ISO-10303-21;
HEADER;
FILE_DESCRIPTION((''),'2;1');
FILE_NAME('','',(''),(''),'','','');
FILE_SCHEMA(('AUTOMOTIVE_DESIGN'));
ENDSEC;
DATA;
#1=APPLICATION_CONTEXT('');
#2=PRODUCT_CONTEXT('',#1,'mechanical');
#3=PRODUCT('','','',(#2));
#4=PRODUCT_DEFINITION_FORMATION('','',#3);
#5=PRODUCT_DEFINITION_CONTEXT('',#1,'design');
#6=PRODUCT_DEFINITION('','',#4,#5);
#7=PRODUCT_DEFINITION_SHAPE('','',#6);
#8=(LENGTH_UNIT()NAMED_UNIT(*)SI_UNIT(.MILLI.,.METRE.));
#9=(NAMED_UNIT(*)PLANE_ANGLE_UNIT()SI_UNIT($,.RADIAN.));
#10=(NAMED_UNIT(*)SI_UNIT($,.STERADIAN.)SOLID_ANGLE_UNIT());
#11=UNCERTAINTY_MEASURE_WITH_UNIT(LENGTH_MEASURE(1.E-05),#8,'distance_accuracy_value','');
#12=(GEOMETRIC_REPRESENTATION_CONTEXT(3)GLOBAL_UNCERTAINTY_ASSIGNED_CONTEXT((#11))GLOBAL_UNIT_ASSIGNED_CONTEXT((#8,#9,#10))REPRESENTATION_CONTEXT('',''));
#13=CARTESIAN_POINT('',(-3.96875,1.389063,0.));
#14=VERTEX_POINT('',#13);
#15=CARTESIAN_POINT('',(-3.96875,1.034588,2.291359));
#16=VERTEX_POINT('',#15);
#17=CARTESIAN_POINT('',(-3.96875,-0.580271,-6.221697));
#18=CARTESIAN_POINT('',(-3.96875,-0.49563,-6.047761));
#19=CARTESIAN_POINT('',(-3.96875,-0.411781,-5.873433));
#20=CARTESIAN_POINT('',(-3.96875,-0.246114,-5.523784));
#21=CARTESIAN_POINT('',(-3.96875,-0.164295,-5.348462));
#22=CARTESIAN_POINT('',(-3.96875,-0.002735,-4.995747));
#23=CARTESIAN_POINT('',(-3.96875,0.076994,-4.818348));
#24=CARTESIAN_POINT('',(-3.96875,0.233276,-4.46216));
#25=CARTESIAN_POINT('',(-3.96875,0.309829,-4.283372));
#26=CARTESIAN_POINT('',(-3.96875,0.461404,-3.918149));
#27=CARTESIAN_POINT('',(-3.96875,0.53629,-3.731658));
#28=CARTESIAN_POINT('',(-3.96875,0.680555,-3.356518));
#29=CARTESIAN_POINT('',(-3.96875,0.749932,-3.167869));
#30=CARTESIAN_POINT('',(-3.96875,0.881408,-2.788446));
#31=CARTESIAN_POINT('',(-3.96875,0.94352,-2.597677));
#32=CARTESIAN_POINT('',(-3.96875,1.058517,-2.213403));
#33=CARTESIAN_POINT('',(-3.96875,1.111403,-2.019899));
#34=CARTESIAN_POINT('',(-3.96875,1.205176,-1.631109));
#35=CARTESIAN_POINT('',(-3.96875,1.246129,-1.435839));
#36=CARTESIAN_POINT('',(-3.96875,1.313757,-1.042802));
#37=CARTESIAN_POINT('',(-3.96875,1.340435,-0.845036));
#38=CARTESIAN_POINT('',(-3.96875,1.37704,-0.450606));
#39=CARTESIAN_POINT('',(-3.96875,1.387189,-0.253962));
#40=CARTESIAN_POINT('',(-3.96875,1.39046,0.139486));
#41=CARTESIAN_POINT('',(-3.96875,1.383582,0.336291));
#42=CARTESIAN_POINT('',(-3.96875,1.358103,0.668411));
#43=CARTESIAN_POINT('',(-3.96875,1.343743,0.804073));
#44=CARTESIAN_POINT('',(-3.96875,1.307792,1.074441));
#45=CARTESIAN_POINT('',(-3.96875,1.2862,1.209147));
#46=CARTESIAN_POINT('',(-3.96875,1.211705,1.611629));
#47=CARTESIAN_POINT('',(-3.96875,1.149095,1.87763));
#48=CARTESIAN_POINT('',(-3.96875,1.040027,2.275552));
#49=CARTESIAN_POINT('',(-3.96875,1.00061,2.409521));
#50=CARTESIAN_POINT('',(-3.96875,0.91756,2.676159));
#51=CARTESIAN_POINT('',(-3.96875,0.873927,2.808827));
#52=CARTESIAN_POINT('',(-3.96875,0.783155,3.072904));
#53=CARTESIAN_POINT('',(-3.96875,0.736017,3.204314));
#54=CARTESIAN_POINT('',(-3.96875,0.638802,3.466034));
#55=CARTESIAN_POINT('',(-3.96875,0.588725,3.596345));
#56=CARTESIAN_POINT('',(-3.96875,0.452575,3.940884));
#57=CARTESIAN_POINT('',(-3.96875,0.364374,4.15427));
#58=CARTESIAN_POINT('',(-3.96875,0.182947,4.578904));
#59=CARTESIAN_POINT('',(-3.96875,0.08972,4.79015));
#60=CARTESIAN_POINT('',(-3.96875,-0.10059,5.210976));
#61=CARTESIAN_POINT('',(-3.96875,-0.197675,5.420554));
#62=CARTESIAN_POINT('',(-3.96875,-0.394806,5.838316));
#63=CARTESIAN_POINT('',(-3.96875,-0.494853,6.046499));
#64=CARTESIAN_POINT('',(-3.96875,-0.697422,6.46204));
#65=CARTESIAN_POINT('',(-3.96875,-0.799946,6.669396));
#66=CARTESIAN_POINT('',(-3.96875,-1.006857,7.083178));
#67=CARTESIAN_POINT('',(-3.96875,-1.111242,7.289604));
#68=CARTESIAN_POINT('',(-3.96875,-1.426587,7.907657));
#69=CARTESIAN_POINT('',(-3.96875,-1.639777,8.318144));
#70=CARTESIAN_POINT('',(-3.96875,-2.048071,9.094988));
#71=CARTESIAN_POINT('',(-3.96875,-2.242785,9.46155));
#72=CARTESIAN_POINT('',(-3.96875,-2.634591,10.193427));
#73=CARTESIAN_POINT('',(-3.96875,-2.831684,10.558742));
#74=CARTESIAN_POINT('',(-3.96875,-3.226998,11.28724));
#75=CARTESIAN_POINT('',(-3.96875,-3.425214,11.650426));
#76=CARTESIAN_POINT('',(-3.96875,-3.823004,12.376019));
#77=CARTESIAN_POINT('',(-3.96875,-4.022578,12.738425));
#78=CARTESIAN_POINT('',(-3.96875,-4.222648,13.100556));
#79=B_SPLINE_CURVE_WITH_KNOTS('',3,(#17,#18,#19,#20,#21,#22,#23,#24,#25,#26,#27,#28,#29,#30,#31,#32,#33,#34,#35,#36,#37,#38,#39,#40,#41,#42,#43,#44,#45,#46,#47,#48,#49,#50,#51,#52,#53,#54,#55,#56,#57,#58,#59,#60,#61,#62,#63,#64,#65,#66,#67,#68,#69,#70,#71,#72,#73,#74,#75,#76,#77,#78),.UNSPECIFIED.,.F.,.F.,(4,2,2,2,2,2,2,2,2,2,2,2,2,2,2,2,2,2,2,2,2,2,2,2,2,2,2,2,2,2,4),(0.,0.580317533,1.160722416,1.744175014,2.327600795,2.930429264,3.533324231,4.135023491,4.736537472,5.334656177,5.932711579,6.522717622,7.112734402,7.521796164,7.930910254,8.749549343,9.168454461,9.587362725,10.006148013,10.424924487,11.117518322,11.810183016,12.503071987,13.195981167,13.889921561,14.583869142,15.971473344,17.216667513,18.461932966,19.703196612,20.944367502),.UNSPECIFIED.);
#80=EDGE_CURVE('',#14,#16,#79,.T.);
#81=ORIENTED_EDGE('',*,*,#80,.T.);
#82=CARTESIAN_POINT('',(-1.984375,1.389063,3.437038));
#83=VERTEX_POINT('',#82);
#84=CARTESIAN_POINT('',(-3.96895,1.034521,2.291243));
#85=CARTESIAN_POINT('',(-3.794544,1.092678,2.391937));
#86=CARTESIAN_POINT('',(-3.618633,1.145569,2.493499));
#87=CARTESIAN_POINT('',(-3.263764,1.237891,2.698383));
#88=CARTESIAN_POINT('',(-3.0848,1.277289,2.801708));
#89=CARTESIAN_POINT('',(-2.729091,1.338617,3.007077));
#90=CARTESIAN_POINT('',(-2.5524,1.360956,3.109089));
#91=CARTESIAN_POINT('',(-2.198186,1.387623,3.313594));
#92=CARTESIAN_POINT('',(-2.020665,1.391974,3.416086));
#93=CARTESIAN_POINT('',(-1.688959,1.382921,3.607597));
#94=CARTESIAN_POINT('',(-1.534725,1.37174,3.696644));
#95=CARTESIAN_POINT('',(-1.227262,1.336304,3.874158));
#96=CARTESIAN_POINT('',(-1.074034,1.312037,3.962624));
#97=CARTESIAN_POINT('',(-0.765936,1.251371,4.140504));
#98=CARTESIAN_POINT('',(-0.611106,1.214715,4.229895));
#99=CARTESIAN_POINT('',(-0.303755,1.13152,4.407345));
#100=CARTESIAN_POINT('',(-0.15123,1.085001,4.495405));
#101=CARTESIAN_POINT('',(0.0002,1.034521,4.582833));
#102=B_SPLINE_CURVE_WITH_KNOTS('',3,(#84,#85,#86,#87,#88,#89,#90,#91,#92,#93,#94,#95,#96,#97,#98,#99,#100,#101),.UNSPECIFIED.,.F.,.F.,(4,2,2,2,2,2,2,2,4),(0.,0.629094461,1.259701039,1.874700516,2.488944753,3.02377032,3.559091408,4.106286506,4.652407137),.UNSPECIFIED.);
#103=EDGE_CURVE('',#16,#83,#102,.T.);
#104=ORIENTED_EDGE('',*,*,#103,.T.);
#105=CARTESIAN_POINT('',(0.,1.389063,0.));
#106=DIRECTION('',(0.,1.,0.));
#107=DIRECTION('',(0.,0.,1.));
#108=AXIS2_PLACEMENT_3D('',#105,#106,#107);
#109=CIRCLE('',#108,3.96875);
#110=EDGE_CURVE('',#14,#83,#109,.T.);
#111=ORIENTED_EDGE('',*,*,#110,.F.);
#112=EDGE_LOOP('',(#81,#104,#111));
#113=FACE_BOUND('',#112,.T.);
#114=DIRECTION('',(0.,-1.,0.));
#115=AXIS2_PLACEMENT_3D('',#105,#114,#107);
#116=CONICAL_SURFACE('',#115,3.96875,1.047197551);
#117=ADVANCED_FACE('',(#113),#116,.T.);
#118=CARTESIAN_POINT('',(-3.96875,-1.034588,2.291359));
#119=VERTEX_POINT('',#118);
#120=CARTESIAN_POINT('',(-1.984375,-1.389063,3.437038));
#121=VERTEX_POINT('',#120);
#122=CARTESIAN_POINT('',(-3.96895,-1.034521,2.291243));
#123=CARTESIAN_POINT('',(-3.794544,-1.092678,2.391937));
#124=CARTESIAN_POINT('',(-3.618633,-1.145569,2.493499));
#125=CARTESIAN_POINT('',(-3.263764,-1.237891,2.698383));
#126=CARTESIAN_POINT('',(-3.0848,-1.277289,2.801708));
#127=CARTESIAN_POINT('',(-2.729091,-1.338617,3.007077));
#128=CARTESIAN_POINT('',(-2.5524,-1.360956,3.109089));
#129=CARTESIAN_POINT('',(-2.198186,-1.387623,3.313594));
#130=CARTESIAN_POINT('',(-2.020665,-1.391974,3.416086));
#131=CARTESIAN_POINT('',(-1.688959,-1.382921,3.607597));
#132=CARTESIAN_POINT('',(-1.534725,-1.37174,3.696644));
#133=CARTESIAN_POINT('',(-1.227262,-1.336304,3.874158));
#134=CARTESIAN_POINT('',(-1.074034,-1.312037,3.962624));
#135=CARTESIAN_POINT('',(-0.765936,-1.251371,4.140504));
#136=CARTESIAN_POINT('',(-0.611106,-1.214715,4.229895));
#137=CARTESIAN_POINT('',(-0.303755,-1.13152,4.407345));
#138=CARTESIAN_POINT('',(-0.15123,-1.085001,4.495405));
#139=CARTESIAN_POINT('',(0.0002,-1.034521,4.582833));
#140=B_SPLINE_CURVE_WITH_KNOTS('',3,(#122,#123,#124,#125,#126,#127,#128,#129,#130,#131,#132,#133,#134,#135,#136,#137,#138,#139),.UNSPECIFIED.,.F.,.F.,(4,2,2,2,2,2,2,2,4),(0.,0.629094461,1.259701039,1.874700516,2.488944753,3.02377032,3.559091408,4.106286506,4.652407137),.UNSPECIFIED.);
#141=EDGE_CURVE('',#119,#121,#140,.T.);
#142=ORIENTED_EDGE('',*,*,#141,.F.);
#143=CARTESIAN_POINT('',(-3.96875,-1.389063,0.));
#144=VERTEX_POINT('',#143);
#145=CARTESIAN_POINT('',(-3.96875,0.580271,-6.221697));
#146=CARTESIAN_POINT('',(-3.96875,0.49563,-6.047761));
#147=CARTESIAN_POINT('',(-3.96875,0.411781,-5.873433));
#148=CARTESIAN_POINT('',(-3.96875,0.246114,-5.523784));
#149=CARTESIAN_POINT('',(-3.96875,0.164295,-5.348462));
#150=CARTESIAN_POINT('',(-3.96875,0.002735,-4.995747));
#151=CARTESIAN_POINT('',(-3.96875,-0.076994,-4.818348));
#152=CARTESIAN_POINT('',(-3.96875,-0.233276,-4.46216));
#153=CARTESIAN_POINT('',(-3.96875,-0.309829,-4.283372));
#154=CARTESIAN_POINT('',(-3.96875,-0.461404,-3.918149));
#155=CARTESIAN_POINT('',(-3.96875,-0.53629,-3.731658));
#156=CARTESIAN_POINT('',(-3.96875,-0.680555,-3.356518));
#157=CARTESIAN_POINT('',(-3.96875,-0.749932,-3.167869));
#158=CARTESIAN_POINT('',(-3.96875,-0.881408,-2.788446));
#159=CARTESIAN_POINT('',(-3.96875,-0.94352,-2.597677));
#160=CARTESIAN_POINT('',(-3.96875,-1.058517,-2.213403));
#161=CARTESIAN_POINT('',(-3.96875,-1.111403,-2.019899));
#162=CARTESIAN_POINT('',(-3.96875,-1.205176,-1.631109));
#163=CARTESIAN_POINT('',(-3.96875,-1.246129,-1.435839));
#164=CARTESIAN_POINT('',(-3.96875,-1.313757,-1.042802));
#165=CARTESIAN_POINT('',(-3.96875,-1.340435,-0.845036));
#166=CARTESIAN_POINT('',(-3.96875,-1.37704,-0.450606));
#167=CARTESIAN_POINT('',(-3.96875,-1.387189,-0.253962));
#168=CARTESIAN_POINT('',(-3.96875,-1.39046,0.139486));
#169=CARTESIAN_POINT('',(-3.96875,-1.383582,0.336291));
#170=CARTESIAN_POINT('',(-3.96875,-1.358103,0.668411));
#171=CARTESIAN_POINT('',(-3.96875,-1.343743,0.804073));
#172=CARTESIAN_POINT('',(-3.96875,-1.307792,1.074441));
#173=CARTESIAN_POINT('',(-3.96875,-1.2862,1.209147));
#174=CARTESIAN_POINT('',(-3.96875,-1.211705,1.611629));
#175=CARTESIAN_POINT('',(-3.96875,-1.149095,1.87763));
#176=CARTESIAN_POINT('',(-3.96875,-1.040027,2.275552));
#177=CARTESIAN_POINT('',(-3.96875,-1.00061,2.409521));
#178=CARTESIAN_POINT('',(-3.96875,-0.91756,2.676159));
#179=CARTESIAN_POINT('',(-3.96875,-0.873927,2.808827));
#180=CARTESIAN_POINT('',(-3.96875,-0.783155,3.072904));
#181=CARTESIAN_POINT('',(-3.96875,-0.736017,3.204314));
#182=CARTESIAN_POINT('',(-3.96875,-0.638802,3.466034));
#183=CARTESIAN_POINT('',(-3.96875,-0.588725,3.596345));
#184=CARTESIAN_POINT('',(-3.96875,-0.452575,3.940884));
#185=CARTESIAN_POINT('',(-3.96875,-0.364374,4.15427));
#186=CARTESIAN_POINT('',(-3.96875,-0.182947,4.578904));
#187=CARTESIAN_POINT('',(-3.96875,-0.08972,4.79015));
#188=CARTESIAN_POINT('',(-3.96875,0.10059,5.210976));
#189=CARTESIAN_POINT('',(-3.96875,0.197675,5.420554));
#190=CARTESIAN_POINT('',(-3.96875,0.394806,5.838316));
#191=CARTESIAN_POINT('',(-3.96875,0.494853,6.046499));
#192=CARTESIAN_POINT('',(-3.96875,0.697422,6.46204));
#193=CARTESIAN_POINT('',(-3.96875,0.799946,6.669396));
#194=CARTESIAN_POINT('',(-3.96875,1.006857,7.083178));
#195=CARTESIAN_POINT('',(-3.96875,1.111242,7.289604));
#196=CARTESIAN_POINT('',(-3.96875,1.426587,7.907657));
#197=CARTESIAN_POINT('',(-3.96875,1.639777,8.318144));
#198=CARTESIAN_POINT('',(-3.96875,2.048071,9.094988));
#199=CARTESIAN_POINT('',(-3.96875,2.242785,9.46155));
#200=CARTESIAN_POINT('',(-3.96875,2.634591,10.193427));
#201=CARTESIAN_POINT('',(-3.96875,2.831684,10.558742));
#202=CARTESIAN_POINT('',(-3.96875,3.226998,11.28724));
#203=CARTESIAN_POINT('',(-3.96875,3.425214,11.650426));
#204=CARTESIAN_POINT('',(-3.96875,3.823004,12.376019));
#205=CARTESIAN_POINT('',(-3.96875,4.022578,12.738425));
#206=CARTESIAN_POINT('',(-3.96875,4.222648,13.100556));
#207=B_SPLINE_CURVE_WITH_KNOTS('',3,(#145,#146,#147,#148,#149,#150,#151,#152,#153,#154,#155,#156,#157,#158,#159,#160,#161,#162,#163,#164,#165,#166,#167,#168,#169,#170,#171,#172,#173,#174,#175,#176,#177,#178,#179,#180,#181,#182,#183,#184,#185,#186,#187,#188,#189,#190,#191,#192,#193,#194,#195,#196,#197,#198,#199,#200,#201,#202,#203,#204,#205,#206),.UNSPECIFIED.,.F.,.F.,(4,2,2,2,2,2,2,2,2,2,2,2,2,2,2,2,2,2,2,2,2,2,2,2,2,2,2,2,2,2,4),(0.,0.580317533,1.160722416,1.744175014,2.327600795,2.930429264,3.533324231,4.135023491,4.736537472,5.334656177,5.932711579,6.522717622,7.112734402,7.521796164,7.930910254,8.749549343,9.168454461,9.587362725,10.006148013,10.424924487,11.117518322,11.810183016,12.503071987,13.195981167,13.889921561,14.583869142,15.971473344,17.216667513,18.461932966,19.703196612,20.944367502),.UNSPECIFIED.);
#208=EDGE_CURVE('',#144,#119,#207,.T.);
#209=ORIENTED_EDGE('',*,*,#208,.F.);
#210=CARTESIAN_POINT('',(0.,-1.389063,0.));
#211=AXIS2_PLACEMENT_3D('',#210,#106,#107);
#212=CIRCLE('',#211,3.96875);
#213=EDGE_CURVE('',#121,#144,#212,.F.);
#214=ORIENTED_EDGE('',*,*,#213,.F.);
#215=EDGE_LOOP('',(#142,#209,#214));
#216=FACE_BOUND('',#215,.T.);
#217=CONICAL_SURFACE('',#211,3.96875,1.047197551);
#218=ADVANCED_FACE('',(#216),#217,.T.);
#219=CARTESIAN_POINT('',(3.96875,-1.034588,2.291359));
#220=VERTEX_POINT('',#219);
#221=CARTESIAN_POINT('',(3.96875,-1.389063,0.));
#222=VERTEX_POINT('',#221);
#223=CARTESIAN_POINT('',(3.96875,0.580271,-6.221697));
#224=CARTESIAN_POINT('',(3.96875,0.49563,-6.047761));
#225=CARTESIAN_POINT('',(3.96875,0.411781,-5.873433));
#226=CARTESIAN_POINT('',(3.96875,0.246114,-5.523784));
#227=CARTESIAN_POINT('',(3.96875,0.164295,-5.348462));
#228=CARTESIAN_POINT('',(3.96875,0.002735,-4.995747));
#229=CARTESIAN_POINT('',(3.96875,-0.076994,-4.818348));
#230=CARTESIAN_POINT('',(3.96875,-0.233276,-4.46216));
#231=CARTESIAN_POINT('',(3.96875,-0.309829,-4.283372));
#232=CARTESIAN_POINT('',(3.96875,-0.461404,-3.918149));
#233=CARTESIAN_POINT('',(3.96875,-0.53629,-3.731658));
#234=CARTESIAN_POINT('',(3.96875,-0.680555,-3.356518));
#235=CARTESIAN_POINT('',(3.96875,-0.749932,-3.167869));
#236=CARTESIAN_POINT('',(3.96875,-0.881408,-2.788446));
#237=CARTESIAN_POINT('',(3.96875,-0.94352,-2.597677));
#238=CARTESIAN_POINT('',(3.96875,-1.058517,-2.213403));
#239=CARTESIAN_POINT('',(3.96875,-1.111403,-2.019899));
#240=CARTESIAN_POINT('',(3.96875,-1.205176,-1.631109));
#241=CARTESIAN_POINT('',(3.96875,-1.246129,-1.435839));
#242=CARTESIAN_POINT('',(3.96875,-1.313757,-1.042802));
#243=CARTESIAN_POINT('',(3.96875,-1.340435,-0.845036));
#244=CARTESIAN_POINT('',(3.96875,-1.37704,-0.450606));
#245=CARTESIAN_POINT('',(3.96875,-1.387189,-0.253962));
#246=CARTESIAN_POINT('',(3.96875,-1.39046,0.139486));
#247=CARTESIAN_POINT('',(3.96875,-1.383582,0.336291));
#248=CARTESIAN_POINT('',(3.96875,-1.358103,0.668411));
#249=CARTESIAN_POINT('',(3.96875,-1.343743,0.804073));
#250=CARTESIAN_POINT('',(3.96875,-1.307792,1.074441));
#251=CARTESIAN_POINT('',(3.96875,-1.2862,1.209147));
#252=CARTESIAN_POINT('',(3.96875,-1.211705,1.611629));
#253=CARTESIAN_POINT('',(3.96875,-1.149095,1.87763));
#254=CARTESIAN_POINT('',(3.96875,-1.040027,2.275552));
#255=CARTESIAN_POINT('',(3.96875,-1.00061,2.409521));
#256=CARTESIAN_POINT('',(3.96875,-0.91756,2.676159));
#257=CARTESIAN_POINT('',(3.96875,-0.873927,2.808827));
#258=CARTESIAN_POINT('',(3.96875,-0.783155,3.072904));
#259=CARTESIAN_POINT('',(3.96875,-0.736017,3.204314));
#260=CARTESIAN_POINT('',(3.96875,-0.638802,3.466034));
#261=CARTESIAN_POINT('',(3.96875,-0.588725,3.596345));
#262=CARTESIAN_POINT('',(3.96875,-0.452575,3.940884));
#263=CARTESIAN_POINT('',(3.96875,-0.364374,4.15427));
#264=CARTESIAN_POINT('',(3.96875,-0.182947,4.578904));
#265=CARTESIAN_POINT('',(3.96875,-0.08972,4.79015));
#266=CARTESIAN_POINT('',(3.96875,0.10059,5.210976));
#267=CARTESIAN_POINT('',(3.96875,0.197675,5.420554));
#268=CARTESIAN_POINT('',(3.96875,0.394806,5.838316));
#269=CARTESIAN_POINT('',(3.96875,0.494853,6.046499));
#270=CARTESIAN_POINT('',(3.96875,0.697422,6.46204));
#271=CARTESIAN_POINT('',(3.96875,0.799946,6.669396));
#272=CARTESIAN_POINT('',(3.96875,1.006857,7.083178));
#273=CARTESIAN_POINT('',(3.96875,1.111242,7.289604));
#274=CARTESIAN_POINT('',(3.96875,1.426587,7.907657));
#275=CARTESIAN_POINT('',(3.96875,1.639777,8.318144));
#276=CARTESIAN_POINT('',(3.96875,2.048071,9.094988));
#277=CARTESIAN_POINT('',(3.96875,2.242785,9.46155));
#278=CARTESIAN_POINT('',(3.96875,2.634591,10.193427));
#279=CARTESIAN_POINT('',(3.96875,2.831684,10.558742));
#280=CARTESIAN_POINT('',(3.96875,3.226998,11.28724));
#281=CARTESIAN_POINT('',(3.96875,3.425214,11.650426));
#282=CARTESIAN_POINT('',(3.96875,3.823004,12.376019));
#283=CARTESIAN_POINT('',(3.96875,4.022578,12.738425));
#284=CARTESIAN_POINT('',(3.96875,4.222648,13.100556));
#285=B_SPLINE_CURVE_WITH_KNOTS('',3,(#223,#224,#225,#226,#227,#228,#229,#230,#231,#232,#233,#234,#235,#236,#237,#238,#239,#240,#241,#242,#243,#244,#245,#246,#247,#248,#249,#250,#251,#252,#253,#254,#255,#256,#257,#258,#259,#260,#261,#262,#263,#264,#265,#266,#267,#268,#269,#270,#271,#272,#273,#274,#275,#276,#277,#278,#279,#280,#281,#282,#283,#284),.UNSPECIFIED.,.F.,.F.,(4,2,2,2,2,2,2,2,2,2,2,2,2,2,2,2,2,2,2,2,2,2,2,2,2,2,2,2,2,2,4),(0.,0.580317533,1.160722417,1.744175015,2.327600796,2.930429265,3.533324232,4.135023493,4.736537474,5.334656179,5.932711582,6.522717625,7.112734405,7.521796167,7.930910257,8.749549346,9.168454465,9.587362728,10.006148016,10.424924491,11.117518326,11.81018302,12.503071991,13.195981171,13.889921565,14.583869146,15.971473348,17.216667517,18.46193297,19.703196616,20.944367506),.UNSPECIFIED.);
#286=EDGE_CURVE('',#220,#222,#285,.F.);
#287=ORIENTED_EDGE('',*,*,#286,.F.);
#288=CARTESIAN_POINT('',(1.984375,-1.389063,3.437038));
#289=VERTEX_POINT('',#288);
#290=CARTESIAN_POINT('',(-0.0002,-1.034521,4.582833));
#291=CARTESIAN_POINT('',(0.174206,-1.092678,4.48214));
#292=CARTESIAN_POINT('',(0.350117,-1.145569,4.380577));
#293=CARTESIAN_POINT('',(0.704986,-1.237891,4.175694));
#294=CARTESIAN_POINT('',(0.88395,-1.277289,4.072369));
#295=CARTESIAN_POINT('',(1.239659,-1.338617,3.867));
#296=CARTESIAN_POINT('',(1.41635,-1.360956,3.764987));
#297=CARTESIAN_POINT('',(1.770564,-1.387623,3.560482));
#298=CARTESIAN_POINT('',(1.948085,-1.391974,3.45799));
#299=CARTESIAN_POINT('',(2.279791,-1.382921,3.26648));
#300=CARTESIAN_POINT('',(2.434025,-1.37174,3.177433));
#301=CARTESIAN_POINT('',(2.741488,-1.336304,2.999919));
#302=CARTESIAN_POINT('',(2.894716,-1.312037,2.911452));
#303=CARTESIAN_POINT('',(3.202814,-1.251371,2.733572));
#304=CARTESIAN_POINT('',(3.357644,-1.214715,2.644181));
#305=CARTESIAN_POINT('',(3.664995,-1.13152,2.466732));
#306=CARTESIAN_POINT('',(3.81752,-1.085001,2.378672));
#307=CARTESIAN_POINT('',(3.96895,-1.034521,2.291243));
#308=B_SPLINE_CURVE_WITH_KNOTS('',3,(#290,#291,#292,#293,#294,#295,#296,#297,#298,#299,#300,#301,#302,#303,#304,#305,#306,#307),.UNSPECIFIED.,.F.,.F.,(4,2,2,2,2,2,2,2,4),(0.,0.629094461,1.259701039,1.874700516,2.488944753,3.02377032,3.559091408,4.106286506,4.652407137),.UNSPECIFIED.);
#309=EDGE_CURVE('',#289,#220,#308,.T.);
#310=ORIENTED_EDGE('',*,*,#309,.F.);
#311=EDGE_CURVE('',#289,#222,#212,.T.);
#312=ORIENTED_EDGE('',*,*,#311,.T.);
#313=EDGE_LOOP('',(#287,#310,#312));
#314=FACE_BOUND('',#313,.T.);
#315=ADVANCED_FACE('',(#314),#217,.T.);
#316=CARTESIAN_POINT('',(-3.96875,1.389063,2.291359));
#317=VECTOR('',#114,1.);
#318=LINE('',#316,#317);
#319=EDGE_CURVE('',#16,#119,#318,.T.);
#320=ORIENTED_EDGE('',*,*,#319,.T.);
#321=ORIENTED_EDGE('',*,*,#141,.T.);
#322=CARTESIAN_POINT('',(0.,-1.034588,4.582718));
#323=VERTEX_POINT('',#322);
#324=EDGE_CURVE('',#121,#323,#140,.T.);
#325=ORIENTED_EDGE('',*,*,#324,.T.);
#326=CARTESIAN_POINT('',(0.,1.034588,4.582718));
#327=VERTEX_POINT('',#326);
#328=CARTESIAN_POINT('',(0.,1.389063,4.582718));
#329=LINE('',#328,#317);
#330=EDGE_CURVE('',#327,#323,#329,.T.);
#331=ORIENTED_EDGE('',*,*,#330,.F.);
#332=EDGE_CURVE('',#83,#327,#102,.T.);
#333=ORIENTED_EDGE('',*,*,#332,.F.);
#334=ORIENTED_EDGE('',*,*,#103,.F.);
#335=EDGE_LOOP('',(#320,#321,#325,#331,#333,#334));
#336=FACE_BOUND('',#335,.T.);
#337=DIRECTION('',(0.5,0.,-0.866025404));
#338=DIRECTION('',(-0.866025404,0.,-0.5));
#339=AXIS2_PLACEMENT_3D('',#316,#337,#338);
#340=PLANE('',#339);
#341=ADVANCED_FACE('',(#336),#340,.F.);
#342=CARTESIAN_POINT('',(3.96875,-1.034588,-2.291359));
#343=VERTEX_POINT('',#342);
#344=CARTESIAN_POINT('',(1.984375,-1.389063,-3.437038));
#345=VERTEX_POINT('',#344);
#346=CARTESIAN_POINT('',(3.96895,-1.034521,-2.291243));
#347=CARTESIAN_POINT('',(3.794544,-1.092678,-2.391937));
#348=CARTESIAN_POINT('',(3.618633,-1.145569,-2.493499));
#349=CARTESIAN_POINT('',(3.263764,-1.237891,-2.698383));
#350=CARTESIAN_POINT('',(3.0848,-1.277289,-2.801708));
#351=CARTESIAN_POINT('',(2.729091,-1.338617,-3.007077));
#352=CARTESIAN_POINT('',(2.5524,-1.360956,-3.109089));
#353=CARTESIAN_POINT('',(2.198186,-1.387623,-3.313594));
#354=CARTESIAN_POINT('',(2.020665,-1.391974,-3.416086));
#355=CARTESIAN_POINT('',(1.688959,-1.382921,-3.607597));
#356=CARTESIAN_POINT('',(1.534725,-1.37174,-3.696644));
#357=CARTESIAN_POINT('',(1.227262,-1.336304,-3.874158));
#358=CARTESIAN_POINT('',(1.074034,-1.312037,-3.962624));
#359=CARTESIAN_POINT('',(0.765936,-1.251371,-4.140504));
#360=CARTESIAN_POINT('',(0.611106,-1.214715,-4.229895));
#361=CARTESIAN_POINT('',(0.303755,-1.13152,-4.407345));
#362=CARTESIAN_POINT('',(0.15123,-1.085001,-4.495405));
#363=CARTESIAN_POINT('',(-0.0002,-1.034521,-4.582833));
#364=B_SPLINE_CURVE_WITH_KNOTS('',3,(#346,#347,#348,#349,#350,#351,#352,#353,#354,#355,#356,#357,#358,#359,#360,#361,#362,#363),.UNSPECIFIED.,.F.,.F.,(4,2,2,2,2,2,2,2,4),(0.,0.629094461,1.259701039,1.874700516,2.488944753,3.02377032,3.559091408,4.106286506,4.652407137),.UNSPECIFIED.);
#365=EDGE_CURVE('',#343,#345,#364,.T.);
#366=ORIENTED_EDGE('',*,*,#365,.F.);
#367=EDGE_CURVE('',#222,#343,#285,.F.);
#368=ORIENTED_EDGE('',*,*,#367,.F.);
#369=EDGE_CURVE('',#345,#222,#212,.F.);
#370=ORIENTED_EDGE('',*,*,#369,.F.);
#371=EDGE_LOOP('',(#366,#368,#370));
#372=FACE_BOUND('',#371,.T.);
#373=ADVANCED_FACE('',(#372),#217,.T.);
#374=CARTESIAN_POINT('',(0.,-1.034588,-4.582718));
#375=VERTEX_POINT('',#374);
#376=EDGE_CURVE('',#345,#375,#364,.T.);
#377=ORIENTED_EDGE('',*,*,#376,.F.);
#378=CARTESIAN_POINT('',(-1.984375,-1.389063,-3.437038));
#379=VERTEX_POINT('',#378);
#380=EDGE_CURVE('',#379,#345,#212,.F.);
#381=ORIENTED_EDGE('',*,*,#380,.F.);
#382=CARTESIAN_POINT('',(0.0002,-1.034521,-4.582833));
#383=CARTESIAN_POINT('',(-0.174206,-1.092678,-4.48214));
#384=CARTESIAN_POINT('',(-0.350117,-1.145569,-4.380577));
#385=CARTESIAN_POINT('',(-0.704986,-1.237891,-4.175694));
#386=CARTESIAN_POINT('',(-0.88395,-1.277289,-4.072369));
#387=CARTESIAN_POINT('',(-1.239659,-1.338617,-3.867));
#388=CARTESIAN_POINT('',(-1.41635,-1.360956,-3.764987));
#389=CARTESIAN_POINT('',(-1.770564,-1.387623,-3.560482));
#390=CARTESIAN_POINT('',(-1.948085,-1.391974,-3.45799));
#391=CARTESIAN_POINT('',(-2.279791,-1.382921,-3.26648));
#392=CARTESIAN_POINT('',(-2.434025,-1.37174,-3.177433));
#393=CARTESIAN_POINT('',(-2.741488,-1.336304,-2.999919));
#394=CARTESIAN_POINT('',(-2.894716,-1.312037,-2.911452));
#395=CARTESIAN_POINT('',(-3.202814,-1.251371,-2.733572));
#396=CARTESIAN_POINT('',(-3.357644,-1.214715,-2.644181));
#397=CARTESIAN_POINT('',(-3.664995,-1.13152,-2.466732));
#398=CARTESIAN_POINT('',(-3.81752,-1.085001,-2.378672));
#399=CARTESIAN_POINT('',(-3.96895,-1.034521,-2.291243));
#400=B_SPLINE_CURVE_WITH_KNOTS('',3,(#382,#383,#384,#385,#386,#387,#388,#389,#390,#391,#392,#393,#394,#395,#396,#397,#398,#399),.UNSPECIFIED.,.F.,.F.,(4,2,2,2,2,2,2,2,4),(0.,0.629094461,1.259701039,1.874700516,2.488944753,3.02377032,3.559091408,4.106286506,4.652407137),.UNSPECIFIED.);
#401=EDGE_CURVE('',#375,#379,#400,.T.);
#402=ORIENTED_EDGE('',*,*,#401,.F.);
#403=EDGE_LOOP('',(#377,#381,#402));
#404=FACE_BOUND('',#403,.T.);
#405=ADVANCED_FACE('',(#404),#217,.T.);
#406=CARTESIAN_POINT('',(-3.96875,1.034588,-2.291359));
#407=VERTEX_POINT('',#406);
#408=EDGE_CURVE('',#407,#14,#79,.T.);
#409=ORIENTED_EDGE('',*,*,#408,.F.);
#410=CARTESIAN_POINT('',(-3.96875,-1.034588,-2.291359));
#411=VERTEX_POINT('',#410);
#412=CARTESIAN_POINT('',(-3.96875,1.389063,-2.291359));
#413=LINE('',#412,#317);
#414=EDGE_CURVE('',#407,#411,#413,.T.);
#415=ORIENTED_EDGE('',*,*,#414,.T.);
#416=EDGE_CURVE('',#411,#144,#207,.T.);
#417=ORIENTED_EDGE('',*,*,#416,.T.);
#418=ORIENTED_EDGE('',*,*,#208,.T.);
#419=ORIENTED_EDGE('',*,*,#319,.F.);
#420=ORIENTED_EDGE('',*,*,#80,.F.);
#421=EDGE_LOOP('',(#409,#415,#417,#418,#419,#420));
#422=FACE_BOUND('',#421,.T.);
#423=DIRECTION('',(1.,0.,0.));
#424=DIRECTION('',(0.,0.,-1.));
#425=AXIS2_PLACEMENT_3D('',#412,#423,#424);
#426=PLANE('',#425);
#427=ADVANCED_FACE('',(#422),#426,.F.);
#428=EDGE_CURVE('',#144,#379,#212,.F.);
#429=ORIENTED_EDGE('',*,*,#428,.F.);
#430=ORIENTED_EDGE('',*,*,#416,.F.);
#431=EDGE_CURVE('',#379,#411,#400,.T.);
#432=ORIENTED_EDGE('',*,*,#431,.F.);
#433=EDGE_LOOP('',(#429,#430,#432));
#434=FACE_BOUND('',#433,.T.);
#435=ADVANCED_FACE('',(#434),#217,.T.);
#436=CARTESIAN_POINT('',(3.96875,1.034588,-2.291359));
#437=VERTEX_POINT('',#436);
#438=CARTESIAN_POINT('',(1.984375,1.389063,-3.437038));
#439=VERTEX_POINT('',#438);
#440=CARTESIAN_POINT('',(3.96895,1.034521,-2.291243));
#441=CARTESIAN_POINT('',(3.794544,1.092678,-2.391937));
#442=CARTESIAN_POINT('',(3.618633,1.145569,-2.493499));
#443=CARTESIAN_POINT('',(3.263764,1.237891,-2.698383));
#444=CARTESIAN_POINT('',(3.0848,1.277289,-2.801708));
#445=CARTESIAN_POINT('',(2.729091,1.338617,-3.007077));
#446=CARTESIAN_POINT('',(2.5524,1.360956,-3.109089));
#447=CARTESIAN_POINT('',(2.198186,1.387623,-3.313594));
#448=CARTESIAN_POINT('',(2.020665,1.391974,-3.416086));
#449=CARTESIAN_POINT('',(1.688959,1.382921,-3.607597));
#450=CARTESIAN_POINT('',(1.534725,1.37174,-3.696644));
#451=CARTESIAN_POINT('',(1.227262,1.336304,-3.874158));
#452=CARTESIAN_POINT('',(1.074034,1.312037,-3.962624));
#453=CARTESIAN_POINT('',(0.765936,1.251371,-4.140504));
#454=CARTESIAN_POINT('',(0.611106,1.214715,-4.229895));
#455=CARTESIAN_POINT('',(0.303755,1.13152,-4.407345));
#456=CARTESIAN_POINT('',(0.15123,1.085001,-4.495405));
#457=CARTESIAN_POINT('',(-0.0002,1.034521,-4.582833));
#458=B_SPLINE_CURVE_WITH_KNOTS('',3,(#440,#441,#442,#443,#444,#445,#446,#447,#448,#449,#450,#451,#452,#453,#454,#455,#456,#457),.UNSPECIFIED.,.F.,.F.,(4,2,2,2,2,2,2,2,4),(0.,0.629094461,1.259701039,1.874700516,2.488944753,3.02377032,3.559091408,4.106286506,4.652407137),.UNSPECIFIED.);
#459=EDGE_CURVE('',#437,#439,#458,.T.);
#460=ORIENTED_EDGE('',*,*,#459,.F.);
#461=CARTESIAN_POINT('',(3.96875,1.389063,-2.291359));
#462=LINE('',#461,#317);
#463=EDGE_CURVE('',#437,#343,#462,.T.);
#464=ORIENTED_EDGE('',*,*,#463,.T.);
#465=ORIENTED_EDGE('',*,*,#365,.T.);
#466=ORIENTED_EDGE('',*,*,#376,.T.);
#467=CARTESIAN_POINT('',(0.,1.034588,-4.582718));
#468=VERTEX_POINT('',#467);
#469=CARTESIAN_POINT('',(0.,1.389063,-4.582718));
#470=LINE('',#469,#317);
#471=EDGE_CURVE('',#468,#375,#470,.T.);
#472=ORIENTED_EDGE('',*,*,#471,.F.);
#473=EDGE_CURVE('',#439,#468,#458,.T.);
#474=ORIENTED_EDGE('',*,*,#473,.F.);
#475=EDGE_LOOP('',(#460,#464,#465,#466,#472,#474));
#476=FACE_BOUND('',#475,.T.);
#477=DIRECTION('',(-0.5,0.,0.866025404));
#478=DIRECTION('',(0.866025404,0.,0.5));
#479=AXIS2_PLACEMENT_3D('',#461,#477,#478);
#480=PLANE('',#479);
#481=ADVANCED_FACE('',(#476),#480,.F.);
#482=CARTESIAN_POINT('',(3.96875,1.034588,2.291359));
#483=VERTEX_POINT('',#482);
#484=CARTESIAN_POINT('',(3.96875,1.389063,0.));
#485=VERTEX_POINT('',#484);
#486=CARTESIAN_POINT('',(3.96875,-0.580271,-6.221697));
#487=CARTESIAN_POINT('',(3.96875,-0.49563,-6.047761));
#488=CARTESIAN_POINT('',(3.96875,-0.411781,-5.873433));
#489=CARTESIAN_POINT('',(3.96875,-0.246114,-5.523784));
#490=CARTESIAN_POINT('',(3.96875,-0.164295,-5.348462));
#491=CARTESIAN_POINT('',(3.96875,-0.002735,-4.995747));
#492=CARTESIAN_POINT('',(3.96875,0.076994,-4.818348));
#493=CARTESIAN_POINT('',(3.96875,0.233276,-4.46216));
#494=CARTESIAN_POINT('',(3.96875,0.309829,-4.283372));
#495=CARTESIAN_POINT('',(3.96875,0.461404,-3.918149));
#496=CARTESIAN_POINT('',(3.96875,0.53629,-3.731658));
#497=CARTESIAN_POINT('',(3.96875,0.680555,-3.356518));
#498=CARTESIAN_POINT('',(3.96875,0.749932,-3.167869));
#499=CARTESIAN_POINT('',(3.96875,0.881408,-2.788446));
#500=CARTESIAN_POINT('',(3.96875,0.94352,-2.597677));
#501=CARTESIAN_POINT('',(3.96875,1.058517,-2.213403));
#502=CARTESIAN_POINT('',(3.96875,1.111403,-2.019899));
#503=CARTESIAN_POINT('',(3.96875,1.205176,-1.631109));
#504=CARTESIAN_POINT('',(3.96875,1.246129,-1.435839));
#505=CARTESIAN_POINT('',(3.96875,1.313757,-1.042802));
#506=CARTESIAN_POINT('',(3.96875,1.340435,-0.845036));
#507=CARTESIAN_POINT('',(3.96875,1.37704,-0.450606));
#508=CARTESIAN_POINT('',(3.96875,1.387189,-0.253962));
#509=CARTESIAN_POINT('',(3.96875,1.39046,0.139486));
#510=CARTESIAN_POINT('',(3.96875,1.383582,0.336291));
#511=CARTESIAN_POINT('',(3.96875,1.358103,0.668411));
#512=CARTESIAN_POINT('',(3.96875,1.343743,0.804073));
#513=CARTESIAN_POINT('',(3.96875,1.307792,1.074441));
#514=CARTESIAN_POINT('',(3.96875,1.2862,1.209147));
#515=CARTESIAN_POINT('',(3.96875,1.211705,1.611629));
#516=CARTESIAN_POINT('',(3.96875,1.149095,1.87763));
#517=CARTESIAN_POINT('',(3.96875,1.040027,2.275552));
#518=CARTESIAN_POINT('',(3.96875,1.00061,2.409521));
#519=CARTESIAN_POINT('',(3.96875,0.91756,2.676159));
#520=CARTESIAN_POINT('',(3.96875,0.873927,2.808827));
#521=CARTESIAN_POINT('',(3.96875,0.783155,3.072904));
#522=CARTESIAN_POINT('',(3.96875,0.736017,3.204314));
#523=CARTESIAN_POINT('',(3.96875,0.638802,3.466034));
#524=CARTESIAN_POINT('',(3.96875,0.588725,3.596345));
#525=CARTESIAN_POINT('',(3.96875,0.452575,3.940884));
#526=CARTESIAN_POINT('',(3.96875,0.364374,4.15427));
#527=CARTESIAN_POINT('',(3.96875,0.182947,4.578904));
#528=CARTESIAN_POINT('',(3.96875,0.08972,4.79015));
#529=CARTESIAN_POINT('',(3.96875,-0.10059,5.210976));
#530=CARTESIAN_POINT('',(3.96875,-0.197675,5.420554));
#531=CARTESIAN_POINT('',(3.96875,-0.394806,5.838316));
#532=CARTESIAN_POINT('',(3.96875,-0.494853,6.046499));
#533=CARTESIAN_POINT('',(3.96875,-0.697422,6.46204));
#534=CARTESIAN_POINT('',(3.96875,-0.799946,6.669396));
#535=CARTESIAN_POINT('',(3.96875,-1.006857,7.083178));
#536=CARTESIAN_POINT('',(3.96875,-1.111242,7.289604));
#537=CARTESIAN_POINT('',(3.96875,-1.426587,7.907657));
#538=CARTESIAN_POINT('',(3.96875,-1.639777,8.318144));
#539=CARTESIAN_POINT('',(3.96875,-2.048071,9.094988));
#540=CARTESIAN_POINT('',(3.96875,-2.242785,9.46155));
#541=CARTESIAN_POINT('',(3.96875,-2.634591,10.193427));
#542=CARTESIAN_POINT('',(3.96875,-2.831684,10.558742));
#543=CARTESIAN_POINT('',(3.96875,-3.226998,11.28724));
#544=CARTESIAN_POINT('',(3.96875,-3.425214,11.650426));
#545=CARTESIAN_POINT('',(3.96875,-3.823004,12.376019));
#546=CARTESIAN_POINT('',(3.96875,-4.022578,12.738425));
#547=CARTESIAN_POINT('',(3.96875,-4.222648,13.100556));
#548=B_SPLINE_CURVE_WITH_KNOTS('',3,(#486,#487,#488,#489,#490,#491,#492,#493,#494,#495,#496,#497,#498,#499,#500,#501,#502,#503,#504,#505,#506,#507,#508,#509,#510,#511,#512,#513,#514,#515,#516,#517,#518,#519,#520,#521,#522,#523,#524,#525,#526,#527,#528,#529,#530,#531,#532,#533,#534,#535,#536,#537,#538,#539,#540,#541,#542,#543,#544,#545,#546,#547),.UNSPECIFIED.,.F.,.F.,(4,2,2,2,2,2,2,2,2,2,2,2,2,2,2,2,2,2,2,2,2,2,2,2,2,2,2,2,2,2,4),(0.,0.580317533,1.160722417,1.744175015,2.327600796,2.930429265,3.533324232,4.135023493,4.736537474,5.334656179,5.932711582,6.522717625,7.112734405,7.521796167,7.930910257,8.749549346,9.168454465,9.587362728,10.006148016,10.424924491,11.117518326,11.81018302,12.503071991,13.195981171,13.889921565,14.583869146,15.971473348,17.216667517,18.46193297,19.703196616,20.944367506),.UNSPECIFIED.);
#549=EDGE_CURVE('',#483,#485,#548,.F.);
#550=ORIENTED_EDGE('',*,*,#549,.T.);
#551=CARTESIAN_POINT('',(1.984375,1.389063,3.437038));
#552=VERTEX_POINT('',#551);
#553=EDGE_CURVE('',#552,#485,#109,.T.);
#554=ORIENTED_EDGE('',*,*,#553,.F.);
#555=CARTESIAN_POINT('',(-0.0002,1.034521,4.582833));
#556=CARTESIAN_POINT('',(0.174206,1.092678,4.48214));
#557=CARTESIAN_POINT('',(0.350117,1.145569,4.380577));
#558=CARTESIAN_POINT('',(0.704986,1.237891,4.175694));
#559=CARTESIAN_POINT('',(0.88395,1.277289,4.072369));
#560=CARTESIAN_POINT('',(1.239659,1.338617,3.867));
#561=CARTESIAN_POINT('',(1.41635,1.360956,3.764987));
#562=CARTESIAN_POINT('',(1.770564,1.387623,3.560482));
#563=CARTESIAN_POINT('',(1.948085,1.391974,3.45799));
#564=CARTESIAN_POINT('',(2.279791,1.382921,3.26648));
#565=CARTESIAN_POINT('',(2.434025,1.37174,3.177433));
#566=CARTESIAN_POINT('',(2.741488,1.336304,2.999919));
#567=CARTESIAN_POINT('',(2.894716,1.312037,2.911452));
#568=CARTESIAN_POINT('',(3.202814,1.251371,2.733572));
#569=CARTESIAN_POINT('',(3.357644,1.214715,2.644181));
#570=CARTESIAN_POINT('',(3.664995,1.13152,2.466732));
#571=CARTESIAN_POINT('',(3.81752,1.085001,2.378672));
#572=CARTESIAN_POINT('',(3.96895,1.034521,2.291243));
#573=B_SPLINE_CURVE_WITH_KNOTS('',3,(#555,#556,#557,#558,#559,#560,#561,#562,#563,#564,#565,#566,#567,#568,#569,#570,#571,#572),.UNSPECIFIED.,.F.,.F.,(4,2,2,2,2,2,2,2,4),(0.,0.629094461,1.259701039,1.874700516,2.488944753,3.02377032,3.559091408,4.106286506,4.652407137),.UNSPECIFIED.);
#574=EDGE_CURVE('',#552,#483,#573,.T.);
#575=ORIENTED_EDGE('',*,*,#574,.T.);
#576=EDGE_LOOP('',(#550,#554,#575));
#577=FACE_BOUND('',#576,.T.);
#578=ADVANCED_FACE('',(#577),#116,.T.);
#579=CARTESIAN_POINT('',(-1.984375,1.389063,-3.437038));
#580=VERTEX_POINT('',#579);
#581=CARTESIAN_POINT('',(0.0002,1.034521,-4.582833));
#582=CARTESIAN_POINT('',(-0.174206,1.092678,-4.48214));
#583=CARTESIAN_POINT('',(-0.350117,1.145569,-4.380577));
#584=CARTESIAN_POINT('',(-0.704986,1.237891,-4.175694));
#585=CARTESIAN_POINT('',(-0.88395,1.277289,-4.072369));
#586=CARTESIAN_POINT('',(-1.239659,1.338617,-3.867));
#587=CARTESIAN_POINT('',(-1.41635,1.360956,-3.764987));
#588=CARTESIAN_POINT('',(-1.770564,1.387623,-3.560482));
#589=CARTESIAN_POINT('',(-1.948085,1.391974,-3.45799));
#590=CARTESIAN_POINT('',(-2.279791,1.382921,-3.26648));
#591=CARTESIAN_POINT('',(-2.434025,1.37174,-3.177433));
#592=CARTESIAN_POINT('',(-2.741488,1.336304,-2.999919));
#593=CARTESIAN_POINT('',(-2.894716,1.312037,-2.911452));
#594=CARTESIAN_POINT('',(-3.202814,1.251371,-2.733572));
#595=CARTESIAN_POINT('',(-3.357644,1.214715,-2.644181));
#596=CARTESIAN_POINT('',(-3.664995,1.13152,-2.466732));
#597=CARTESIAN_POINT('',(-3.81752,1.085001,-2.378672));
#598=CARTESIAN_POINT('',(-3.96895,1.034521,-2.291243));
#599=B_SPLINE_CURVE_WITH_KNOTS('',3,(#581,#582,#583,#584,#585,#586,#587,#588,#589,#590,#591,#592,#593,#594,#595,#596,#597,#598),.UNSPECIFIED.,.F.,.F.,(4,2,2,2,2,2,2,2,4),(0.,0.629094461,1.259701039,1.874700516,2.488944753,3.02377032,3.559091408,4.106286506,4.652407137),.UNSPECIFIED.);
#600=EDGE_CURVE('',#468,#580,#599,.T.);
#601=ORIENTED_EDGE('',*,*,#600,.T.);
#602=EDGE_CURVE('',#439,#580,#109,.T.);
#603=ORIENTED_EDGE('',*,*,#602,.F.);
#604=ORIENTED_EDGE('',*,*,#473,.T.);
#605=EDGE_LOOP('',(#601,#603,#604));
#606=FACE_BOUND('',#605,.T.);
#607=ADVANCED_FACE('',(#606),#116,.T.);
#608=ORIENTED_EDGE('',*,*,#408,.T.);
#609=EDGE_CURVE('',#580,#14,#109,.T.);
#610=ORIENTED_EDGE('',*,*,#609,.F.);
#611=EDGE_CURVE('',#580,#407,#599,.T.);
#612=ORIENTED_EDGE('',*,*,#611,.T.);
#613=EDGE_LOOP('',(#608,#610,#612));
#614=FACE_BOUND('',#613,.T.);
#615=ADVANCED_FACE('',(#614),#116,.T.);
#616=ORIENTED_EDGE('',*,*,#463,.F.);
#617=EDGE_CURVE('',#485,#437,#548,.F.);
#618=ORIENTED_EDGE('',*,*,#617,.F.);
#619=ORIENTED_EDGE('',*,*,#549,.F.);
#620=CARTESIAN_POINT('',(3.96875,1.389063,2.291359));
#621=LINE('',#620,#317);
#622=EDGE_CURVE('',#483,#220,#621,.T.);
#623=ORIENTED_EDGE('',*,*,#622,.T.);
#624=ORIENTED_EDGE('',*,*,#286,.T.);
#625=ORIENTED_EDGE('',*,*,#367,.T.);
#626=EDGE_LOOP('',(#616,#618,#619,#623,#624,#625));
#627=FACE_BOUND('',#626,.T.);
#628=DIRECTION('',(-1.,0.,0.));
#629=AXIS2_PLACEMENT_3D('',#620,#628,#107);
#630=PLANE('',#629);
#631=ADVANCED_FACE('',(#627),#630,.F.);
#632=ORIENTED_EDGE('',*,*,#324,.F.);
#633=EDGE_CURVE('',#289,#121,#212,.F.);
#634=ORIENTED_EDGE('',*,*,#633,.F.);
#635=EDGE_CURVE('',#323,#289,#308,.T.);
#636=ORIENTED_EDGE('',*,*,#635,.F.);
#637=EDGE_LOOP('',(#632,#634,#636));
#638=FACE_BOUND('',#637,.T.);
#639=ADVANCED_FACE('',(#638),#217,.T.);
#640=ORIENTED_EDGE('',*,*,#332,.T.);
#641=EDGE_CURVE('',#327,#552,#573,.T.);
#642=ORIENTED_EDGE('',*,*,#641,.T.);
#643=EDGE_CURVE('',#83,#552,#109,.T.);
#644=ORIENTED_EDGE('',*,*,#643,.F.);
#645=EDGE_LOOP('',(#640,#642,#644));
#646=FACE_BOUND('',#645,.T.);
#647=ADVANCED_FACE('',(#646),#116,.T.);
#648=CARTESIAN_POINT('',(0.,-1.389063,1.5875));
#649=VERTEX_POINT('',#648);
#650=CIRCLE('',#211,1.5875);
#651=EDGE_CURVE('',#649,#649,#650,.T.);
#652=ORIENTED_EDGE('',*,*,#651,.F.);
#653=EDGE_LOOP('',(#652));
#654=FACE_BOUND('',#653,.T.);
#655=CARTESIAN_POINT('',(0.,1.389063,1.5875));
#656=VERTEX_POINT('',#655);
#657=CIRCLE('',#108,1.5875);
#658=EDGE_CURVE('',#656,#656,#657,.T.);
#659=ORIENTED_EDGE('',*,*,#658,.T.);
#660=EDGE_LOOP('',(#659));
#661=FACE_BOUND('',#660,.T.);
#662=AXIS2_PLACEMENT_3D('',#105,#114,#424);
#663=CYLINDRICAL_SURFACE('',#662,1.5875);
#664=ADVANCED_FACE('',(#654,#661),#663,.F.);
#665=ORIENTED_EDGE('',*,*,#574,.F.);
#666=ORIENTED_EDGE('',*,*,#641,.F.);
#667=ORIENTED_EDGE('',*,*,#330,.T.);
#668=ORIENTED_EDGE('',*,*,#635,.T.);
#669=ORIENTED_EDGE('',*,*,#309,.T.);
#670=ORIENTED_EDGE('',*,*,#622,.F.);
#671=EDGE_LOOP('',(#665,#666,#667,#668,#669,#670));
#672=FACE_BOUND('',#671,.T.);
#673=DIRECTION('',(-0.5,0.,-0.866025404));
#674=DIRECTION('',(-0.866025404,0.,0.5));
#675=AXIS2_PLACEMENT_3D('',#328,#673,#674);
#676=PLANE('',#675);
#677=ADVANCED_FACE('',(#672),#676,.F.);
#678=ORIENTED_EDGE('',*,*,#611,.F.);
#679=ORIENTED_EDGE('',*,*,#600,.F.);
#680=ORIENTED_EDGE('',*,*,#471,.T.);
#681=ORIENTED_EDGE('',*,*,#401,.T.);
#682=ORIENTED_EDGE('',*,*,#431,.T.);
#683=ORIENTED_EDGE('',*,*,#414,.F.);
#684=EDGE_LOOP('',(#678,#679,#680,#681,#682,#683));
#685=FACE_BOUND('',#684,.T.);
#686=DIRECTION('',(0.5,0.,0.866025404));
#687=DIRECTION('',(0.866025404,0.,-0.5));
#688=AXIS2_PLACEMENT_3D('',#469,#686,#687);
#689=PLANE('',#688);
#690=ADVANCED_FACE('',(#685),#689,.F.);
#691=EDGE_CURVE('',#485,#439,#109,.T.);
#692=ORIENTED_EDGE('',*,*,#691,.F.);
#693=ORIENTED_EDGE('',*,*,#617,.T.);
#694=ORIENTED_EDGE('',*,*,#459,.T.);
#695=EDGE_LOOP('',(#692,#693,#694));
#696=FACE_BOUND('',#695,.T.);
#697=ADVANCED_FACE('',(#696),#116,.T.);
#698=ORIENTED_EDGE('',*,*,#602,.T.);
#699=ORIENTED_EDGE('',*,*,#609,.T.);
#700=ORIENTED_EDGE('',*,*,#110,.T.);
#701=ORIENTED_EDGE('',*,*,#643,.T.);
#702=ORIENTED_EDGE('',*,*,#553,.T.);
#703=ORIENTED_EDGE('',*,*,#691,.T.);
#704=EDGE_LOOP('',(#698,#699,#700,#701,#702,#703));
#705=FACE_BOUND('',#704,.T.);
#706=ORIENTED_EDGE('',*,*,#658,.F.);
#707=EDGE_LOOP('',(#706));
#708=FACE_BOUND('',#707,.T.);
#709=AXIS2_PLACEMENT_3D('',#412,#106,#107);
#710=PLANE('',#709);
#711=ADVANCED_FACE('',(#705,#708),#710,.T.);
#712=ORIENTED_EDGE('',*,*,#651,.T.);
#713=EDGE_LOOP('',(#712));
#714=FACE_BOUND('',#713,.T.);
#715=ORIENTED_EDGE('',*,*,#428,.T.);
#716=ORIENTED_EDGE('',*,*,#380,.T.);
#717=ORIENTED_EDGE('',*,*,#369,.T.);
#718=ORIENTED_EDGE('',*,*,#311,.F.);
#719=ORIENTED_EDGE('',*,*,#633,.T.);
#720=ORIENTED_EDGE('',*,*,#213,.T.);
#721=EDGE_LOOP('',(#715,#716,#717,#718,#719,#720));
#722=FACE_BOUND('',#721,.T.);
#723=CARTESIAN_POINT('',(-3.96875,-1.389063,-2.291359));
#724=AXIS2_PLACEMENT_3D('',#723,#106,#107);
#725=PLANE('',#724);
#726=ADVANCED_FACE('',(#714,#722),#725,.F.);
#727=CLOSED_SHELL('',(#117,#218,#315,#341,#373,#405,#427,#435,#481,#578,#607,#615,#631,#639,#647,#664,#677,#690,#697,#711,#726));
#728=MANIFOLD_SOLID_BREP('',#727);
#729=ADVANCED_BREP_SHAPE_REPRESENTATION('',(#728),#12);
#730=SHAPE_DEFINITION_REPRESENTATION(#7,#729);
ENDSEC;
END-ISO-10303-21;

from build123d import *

# Parameters (mm, degrees)
SKETCH1_R           = 1.5875
BOSS_EXTRUDE1_DEPTH = 1.3890625
SKETCH5_OUTSIDE_W   = 25.514
SKETCH5_OUTSIDE_H   = 26.742
SKETCH5_OUTSIDE_R   = 3.96875
CUT_EXTRUDE2_DEPTH  = 3.778125
CUT_EXTRUDE2_TAPER  = 60


with BuildPart() as part:
    # Sketch1 → Boss-Extrude1 (new body, symmetric)
    with BuildSketch(Plane(origin=(0, 0, 0), x_dir=(1, 0, 0), z_dir=(0, 1, 0))):
        Polygon((-3.96875, 2.291358881), (-3.96875, -2.291358881), (0, -4.582717762), (3.96875, -2.291358881), (3.96875, 2.291358881), (0, 4.582717762), align=None)
        Circle(SKETCH1_R, mode=Mode.SUBTRACT)
    extrude(amount=BOSS_EXTRUDE1_DEPTH, both=True)

    # Sketch5 outside → Cut-Extrude2 (cut, through all)
    with BuildSketch(Plane(origin=(0, 1.3890625, 0), x_dir=(1, 0, 0), z_dir=(0, 1, 0))):
        Rectangle(SKETCH5_OUTSIDE_W, SKETCH5_OUTSIDE_H)
        Circle(SKETCH5_OUTSIDE_R, mode=Mode.SUBTRACT)
    cut_extrude2 = extrude(amount=-CUT_EXTRUDE2_DEPTH, taper=CUT_EXTRUDE2_TAPER, mode=Mode.SUBTRACT)

    # Mirror1: Cut-Extrude2 across plane
    add(cut_extrude2.mirror(Plane.ZX), mode=Mode.SUBTRACT)


solid = part.part
